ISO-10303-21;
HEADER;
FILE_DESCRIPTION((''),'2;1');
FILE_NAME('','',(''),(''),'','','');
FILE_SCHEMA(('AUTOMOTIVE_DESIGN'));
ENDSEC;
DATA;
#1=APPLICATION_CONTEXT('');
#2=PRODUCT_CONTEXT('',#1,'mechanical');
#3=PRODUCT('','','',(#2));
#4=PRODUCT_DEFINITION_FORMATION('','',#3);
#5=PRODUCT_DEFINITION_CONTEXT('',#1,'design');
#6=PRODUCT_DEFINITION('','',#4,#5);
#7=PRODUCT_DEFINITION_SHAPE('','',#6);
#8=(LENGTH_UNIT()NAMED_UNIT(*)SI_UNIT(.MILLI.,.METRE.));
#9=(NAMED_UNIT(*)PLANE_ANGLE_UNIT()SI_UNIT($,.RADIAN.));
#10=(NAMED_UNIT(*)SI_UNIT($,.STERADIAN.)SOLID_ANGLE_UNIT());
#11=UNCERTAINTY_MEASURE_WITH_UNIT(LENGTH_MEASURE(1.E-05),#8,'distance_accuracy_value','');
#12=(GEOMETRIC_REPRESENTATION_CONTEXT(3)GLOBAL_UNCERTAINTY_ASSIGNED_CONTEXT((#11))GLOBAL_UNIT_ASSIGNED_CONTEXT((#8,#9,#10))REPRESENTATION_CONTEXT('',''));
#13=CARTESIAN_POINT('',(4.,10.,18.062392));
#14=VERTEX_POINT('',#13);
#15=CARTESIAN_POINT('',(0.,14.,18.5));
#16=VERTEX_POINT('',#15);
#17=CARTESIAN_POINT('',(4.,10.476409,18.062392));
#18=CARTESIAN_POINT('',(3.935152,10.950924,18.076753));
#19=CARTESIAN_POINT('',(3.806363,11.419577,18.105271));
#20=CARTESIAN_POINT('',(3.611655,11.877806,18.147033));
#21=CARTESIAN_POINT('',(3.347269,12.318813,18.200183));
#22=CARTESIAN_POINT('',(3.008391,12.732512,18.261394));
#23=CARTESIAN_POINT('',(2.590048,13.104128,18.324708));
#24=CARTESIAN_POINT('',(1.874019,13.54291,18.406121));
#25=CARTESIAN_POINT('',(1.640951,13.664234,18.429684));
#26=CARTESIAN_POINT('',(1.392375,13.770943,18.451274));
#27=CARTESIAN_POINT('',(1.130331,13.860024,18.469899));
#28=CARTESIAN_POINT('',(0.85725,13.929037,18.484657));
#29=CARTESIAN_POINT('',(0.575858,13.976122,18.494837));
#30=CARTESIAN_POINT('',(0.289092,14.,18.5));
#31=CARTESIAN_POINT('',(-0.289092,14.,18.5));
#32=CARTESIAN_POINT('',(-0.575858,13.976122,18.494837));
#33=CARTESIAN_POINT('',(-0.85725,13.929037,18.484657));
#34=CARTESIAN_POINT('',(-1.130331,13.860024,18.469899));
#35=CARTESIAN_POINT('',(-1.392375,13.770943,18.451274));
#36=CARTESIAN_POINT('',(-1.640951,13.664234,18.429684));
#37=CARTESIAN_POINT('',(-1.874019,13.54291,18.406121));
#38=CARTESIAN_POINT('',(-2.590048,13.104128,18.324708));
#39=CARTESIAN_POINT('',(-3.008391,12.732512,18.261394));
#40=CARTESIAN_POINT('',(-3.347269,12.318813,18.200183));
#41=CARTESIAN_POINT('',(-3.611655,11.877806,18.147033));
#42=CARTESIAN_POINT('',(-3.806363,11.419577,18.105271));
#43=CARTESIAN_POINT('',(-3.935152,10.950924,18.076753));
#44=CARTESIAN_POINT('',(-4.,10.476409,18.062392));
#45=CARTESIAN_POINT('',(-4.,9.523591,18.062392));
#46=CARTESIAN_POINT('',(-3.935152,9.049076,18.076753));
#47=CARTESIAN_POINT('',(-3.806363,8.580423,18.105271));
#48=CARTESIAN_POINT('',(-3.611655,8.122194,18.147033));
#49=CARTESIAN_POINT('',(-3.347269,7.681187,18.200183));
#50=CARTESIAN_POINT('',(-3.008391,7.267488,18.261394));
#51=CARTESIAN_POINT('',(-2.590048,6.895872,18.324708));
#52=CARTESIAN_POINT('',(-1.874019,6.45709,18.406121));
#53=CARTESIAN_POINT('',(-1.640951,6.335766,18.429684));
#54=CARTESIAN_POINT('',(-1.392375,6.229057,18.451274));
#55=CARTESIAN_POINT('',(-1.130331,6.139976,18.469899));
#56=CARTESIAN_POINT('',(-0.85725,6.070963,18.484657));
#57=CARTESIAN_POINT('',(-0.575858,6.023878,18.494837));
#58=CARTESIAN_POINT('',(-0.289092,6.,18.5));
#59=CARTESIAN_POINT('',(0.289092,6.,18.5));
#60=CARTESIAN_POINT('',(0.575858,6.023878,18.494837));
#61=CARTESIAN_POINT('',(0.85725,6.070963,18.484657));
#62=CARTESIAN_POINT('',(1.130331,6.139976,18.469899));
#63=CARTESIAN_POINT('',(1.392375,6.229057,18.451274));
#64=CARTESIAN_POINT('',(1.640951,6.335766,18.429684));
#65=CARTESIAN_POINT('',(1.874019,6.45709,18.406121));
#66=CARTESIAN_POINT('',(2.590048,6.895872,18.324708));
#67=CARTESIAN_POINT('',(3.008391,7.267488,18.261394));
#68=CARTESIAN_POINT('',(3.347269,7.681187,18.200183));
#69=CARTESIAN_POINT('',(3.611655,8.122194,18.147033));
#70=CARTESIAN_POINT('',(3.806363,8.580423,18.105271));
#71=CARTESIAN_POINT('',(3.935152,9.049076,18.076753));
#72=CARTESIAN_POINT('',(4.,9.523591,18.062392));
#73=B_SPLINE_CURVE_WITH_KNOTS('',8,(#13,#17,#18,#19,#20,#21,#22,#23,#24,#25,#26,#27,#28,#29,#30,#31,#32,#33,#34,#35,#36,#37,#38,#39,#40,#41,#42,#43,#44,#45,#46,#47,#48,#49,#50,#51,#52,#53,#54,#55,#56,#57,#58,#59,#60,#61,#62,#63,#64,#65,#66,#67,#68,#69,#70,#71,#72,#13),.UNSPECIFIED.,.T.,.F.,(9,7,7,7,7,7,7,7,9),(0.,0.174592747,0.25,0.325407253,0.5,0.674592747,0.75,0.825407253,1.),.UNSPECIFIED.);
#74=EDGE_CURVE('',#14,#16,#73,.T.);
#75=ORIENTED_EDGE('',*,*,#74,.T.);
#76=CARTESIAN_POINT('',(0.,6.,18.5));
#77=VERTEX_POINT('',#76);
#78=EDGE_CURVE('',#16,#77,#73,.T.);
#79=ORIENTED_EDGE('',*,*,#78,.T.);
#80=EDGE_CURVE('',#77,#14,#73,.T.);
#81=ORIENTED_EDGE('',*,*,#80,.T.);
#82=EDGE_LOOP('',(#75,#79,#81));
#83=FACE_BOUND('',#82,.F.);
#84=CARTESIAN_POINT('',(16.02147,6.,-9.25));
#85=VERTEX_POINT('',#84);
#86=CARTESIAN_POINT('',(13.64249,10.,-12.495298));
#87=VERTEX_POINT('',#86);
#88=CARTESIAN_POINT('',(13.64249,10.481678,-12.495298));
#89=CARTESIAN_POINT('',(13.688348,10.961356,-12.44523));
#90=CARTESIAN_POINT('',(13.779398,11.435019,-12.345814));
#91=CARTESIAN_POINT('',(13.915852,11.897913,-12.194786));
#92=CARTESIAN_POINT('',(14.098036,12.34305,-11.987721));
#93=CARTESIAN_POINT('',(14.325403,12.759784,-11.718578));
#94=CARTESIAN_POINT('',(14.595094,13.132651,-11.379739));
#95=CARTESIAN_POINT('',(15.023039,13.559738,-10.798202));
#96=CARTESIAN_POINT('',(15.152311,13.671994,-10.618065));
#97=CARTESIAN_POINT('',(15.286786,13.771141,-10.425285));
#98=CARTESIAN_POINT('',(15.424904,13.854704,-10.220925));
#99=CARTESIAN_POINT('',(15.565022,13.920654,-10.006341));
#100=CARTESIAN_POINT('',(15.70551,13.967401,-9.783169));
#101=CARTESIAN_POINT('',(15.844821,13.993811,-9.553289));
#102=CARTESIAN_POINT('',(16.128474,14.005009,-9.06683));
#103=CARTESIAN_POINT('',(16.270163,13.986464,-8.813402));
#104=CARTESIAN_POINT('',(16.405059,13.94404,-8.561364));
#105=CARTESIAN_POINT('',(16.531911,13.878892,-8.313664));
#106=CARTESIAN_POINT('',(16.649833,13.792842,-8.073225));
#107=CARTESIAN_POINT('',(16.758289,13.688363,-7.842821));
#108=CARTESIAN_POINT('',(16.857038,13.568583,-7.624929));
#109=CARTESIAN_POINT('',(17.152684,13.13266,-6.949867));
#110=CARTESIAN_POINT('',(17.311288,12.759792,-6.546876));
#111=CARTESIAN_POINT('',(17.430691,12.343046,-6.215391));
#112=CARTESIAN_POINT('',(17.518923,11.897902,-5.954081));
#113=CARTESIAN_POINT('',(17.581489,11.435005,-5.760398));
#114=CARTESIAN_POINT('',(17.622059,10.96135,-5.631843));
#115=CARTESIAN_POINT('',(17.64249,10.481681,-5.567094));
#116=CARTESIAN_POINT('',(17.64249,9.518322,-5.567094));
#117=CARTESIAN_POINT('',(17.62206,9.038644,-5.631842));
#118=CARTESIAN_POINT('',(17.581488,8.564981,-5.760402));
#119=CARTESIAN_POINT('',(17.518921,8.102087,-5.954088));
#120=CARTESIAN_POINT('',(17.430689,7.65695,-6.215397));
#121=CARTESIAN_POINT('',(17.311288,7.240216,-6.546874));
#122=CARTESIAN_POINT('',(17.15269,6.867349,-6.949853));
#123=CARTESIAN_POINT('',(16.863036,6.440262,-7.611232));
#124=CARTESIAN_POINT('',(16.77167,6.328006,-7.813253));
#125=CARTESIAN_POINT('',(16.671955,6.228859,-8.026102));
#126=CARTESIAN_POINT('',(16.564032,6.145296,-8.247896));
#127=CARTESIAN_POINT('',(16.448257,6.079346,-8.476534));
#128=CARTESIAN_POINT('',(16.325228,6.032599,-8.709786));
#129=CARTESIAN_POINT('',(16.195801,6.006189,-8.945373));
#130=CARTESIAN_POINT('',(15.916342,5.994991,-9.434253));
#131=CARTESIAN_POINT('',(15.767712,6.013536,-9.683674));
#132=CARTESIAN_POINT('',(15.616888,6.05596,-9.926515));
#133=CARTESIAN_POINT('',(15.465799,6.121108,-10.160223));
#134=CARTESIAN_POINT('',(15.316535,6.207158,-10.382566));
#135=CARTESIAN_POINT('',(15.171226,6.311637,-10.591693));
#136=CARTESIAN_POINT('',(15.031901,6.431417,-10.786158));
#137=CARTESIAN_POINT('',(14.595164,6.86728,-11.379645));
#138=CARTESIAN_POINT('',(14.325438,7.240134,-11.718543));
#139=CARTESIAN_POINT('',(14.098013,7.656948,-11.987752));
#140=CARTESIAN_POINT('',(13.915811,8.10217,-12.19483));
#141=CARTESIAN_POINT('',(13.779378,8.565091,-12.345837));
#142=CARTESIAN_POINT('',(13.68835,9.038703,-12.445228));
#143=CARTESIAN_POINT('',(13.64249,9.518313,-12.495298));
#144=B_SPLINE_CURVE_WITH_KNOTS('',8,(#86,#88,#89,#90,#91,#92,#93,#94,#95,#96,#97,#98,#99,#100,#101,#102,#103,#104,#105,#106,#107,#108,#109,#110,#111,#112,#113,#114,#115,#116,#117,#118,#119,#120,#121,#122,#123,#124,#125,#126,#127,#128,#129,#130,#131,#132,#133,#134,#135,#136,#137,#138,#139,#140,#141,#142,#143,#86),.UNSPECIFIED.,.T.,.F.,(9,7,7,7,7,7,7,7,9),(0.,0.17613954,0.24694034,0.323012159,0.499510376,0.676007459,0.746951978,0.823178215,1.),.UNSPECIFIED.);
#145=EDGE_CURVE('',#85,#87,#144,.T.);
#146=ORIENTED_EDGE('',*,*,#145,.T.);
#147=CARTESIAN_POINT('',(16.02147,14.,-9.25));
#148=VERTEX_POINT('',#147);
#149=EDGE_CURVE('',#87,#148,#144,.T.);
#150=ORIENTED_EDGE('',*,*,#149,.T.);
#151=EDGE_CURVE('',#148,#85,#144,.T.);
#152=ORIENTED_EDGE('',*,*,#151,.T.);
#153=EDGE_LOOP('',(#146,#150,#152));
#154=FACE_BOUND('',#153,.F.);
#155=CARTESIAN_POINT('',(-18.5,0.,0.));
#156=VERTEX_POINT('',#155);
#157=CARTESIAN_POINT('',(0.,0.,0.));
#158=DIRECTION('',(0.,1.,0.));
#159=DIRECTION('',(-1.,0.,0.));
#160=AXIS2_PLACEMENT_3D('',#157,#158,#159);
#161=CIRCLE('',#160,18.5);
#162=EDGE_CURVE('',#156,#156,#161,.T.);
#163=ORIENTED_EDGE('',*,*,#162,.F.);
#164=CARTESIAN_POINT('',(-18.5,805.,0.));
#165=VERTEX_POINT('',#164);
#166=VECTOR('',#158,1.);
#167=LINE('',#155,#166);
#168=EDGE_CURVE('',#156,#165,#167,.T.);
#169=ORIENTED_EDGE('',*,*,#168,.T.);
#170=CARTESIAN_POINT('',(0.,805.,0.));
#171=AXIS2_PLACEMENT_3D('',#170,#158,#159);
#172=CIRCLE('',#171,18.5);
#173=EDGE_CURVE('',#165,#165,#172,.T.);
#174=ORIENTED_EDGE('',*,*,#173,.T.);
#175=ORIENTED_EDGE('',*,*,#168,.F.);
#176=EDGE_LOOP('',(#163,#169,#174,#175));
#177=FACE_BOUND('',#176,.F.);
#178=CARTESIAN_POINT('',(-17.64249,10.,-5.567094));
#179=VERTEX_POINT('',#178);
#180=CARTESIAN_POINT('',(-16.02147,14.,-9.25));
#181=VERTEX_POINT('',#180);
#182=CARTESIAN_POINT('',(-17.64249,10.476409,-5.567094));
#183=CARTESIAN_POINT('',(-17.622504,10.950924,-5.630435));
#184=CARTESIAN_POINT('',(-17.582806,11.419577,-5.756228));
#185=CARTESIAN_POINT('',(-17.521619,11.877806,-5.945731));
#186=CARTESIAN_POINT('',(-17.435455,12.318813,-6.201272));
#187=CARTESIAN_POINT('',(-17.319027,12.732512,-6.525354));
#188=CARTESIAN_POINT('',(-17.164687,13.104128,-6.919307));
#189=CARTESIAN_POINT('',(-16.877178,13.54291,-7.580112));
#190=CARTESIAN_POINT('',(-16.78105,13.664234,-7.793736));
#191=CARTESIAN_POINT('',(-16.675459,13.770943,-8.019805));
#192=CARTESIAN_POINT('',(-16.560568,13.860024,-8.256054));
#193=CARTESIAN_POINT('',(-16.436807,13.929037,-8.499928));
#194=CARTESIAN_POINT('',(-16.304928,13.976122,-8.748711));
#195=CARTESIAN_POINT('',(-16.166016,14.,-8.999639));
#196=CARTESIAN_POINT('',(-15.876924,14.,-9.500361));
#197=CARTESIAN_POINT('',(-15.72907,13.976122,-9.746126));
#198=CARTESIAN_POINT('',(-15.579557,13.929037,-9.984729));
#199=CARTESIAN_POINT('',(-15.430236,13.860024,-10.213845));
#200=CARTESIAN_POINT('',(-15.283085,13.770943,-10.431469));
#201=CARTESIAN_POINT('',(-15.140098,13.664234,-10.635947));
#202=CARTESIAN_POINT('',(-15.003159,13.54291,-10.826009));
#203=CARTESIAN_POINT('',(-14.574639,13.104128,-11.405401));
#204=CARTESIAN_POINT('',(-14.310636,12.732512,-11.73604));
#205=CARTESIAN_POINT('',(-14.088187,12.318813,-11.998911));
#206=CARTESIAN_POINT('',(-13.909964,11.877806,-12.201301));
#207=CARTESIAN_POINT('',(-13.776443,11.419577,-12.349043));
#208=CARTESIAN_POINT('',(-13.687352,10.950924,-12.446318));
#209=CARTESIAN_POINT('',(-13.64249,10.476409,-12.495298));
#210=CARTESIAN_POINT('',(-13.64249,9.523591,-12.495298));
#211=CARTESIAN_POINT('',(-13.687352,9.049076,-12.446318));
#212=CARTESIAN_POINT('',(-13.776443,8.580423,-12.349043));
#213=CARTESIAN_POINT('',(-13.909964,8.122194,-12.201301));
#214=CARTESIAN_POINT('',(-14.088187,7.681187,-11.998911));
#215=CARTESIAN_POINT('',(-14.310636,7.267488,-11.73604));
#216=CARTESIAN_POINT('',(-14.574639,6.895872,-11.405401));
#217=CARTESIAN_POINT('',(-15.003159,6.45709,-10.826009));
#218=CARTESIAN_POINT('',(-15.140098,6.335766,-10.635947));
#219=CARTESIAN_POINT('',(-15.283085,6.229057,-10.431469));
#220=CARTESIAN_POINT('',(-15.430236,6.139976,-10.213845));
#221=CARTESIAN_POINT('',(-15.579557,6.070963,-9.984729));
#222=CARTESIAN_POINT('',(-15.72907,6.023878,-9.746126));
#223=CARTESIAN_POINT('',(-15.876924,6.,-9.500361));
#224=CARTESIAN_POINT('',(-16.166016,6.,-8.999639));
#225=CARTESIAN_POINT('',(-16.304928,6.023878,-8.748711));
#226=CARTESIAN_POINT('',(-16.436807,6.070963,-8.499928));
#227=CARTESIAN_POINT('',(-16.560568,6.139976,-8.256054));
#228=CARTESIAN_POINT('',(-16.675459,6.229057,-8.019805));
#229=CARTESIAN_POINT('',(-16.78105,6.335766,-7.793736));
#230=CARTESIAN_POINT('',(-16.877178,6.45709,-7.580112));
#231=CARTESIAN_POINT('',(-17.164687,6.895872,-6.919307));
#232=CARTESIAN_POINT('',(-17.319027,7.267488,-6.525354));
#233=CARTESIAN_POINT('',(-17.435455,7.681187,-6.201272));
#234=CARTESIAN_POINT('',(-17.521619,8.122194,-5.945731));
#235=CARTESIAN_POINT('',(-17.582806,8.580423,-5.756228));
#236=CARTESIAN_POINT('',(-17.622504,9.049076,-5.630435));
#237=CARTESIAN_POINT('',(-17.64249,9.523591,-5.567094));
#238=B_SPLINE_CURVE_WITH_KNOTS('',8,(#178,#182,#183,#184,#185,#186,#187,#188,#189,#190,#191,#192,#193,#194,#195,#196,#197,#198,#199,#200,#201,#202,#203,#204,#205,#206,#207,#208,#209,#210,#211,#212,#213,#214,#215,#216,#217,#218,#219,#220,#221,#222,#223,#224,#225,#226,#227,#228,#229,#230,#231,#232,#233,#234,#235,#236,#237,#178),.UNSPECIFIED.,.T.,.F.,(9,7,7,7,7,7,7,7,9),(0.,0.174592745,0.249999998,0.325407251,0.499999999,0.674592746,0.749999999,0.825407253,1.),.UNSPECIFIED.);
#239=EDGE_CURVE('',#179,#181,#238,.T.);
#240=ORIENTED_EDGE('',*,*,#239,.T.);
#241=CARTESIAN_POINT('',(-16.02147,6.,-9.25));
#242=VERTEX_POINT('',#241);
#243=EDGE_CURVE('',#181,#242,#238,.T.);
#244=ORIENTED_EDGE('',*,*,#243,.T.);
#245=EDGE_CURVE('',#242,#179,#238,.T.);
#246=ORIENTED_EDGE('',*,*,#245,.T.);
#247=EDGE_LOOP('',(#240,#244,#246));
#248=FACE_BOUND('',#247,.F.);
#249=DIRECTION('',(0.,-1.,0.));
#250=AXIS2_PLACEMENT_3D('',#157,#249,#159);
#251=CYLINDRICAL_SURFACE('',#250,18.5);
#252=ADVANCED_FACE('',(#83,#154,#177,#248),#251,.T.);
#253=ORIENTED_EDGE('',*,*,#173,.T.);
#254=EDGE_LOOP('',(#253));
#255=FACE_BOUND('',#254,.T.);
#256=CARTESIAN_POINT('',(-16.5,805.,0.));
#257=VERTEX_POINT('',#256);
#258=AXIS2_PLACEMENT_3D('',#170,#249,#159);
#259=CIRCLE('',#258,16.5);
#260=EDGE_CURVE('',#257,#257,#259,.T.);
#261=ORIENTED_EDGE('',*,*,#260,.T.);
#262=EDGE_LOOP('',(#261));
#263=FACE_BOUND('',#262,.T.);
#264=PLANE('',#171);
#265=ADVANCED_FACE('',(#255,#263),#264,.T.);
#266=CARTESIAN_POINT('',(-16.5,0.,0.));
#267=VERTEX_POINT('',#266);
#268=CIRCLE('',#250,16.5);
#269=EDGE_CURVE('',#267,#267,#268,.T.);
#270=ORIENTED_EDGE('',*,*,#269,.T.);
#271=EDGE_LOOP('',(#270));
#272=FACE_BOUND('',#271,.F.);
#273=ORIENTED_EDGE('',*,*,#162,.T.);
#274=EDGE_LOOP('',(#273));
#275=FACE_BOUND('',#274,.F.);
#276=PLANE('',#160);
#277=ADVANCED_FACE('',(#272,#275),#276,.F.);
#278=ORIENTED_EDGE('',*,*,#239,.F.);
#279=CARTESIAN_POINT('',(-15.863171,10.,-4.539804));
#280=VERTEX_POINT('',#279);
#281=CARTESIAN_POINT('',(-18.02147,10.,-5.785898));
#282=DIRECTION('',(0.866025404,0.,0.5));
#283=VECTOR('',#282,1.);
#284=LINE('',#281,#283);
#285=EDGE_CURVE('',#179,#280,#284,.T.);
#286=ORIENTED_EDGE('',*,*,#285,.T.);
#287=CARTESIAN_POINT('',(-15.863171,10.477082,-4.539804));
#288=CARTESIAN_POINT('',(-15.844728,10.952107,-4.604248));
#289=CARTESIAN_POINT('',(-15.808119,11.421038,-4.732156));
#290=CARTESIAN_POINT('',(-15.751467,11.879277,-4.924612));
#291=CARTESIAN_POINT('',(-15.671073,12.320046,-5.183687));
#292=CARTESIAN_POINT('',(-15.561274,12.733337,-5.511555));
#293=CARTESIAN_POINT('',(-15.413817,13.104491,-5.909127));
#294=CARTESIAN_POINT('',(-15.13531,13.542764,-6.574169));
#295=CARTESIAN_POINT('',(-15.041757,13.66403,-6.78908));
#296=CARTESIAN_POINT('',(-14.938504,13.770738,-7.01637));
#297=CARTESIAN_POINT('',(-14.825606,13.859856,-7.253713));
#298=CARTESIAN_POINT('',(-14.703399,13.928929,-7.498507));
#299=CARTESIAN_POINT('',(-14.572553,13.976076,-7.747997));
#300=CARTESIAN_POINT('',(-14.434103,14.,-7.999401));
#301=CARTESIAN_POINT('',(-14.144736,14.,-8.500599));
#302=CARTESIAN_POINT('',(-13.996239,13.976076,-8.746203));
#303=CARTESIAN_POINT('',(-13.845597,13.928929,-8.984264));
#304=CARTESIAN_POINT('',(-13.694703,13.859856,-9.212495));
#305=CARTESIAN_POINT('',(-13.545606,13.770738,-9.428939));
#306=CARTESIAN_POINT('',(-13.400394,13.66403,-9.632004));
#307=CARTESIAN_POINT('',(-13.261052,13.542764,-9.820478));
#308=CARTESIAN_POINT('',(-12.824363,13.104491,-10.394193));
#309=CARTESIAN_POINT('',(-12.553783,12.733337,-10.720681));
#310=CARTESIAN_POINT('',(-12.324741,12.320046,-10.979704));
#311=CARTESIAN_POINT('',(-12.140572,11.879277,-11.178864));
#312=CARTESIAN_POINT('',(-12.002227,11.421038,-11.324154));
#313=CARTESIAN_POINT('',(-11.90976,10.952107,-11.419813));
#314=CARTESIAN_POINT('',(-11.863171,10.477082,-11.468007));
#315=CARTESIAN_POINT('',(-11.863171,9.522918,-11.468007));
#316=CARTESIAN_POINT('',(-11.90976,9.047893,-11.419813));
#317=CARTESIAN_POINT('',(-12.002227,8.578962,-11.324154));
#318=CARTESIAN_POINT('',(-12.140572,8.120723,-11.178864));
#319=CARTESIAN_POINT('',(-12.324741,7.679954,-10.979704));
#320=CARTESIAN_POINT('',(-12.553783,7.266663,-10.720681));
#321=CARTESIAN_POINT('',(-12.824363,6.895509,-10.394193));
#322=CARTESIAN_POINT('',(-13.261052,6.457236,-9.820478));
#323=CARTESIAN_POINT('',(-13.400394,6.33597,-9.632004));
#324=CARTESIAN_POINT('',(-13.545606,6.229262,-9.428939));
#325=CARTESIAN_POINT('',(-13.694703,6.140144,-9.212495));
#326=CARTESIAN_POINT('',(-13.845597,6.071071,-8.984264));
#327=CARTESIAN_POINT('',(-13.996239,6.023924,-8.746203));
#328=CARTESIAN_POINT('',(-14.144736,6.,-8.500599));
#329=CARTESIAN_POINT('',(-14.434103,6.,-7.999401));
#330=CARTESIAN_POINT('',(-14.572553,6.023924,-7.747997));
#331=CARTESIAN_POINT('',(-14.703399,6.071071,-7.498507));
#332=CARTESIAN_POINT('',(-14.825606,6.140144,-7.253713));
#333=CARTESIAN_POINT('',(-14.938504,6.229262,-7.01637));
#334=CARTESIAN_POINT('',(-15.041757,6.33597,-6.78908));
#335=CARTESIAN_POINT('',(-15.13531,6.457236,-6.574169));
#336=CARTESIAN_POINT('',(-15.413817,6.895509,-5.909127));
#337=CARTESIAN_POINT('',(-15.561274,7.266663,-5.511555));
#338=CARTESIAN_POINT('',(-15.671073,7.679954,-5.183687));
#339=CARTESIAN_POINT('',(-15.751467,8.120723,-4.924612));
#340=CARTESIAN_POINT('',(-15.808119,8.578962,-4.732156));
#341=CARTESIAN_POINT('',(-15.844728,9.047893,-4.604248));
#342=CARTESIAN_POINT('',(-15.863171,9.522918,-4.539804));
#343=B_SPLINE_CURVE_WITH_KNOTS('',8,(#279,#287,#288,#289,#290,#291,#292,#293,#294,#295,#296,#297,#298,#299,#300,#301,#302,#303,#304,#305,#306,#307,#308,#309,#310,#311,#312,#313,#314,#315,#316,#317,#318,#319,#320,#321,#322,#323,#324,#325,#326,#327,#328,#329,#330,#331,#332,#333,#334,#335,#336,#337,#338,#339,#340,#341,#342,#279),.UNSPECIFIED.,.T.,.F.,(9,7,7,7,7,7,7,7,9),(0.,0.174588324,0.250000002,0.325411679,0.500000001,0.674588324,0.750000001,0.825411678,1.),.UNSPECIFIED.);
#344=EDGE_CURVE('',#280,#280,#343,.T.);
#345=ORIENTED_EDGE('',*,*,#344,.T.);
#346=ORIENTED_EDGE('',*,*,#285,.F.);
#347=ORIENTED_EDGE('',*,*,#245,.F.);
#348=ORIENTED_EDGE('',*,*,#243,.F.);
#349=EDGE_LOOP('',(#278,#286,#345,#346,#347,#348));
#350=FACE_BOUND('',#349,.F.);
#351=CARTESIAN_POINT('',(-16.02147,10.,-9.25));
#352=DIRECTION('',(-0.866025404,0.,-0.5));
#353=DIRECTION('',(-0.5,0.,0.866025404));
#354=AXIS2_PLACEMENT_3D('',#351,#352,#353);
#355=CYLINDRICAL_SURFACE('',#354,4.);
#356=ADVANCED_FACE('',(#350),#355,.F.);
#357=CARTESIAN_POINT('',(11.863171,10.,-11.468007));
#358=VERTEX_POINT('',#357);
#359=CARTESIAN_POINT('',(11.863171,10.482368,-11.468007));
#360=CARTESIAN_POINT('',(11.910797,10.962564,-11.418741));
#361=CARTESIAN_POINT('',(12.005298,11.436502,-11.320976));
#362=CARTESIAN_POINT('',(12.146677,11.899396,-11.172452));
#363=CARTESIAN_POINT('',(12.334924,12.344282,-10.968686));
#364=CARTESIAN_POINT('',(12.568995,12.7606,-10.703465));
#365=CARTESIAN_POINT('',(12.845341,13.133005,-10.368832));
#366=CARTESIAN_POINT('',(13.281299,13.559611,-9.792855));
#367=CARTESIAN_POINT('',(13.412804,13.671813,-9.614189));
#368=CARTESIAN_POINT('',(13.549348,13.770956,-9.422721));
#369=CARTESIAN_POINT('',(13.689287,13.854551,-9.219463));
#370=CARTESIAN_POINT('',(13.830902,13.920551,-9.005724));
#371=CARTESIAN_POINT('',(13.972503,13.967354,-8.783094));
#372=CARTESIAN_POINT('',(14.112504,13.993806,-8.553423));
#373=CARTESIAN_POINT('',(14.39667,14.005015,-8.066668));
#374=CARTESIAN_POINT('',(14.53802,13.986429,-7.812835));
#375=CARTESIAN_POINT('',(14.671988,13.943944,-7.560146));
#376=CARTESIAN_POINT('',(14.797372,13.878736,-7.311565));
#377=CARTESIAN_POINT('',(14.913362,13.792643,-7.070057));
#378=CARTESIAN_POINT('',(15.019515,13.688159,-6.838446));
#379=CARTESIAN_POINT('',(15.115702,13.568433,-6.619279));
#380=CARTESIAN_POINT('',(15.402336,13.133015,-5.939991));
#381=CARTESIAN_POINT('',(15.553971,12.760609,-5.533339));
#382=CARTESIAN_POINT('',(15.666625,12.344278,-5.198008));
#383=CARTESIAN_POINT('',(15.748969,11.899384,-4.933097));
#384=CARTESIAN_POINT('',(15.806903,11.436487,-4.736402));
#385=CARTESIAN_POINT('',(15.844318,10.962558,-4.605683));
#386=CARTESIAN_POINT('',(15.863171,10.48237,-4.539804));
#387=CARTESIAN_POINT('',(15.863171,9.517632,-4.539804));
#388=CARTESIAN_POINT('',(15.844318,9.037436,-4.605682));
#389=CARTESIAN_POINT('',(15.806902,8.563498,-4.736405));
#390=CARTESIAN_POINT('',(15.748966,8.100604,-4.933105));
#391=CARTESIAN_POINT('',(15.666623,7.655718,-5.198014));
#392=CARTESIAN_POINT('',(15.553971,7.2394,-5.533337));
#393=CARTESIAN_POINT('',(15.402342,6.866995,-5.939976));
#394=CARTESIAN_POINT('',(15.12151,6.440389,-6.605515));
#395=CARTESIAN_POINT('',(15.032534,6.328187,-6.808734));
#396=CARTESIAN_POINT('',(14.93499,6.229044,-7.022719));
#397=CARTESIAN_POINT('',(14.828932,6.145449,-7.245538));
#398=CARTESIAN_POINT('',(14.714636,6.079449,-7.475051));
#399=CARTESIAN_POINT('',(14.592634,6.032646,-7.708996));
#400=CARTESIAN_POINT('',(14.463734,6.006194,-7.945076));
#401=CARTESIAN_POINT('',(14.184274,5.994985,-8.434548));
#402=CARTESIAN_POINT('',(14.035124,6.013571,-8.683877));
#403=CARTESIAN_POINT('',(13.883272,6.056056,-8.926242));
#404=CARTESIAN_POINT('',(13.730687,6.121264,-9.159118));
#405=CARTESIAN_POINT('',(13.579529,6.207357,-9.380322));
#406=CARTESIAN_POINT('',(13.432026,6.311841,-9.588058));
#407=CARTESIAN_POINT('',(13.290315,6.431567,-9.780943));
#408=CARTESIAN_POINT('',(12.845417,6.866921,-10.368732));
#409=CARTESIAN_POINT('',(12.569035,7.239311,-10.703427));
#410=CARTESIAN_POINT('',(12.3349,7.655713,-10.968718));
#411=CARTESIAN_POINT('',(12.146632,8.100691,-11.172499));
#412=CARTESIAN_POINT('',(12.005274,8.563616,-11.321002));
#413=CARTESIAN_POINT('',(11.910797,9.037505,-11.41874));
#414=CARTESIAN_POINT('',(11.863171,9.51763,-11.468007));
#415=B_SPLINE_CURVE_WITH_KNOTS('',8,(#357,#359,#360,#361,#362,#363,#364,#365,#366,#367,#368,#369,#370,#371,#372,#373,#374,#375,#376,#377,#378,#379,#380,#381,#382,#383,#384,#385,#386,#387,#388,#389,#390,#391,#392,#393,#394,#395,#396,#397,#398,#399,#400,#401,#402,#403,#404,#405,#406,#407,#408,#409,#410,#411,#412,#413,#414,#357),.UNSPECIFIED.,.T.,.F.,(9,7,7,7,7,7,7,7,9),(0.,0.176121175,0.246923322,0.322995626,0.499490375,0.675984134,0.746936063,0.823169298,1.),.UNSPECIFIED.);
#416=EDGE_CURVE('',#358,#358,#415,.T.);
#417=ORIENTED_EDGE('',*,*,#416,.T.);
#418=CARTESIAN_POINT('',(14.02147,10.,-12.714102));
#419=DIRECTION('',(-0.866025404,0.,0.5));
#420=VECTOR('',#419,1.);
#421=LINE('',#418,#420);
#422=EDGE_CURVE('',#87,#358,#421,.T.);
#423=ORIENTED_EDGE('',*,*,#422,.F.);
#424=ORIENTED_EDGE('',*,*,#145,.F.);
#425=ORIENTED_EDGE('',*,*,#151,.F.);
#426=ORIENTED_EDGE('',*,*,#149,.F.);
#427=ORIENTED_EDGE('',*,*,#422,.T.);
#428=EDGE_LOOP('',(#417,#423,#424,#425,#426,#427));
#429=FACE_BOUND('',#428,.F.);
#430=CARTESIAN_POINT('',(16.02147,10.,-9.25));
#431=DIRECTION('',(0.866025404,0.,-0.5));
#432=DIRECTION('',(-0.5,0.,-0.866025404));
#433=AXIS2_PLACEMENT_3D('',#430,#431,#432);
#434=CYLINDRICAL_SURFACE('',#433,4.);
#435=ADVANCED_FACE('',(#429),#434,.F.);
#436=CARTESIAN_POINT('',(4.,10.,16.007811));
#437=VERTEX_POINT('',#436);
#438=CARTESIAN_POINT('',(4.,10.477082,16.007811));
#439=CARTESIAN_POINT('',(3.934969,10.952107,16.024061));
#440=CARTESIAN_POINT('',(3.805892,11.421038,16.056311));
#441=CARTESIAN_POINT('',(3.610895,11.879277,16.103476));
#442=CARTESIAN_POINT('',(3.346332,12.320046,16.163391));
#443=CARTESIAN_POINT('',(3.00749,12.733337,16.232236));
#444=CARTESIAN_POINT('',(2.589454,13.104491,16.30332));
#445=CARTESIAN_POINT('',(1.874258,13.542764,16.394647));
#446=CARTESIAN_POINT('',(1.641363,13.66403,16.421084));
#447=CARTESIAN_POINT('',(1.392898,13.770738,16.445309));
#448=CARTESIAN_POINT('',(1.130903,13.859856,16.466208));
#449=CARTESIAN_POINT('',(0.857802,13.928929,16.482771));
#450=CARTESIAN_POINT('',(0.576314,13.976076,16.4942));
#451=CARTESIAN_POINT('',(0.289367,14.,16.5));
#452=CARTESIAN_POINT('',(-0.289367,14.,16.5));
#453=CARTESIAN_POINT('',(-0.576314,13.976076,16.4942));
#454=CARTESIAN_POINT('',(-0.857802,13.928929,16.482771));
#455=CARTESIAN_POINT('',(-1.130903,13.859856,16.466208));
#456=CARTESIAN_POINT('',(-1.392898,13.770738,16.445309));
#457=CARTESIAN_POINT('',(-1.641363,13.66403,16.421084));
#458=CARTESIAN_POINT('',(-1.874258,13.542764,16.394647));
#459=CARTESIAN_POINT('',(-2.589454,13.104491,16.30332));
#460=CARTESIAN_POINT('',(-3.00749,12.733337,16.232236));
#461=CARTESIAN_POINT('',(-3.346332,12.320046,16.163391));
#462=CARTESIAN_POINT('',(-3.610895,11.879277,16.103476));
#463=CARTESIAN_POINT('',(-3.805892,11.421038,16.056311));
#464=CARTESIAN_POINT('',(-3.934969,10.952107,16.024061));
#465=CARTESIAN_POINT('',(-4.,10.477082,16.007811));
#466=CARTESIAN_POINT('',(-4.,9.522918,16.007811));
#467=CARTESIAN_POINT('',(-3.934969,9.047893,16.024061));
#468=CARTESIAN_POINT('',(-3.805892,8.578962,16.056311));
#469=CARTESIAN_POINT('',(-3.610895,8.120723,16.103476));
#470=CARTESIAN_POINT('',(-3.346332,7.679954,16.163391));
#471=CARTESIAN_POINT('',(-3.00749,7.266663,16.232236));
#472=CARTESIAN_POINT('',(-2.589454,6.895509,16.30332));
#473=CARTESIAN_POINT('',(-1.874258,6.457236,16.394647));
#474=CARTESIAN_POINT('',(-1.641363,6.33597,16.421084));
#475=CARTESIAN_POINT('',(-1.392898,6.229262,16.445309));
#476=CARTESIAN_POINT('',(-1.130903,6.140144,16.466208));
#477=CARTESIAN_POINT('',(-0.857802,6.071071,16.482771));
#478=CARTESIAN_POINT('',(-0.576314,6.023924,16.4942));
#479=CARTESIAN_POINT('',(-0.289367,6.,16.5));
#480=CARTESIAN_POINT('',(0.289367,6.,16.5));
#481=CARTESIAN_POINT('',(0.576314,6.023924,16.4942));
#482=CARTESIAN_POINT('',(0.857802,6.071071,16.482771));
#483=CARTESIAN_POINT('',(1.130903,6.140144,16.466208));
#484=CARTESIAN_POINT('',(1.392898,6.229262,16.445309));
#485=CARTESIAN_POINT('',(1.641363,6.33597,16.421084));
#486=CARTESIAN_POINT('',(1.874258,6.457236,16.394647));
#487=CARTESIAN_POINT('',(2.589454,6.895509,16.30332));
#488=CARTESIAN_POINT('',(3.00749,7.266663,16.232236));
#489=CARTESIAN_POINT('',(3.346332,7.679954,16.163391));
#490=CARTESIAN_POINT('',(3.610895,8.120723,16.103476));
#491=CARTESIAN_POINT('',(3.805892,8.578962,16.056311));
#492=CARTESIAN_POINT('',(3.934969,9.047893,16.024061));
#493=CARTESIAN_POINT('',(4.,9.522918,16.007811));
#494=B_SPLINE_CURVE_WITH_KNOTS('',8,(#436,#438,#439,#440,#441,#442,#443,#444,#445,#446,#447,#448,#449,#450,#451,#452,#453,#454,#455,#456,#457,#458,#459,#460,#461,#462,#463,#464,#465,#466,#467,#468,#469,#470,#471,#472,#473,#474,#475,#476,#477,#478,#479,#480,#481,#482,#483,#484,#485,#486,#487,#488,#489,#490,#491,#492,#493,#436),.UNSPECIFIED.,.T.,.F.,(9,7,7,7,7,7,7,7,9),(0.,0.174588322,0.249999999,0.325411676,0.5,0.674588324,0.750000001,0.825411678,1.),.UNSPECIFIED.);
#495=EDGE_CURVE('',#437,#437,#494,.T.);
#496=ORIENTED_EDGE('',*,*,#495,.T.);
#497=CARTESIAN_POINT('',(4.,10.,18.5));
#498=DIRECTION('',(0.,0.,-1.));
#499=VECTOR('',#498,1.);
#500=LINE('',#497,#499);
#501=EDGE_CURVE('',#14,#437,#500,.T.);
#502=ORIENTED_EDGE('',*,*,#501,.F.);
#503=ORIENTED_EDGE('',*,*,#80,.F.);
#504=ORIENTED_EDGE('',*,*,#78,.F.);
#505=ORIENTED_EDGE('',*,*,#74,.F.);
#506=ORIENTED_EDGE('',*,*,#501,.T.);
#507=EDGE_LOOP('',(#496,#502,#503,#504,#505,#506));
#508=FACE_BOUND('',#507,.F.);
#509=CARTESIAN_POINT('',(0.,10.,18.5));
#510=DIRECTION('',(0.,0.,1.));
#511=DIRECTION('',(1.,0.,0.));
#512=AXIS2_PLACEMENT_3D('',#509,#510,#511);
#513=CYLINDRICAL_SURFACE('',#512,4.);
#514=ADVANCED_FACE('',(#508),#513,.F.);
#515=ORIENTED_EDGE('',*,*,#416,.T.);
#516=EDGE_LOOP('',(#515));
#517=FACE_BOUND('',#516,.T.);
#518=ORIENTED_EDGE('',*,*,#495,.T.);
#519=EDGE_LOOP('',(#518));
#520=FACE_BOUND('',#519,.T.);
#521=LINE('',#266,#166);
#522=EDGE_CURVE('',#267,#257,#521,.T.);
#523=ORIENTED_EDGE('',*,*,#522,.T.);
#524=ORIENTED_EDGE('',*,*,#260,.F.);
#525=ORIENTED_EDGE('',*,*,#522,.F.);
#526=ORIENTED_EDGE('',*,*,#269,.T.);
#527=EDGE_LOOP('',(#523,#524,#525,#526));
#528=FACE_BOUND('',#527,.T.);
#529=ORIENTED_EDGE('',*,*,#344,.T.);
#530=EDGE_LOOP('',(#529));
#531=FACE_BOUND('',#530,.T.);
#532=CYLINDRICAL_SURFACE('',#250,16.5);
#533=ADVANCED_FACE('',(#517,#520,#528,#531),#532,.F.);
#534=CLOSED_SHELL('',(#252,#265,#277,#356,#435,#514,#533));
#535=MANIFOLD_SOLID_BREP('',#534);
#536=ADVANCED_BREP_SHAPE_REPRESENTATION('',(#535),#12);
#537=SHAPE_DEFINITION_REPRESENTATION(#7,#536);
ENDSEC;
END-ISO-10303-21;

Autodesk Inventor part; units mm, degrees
ref_plane "XZ Plane" through (0, 0, 0) normal (0, 1, 0) x (-1, 0, 0)
sketch "Boceto1" plane through (0, 0, 0) normal (0, 1, 0) x (-1, 0, 0)
  circle A0 centre (0, 0) radius 18.5
  dimension "d0" = 37
extrude "Extrusión1" add sketch "Boceto1" along normal blind 805
shell "Vaciado1" thickness 2 removed faces 2 at (3.5031, 0, 5.0751) at (3.5031, 805, 5.0751)
ref_plane "Plano de trabajo1" through (0, 0, 18.5) normal (0, 0, 1) x (1, 0, 0)
ref_plane "Plano de trabajo2" through (18.5, 0, 0) normal (1, 0, 0) x (0, 1, 0)
sketch "Boceto4" plane through (0, 0, 18.5) normal (0, 0, 1) x (1, 0, 0)
  line L0 (0, 18.0734) -> (0, -36.4146) construction
  line L1 (47.7272, 0) -> (-52.5468, 0) construction
  circle A0 centre (0, 10) radius 4
  point P0 (0, 0)
  dimension "d14" = 8
  dimension "d15" = 10
extrude "Extrusión4" cut sketch "Boceto4" against normal blind 10
pattern_circular "Patrón circular1" count 3 over 360 about axis through (0, 0, 0) along (0, 1, 0) of "Extrusión4"
